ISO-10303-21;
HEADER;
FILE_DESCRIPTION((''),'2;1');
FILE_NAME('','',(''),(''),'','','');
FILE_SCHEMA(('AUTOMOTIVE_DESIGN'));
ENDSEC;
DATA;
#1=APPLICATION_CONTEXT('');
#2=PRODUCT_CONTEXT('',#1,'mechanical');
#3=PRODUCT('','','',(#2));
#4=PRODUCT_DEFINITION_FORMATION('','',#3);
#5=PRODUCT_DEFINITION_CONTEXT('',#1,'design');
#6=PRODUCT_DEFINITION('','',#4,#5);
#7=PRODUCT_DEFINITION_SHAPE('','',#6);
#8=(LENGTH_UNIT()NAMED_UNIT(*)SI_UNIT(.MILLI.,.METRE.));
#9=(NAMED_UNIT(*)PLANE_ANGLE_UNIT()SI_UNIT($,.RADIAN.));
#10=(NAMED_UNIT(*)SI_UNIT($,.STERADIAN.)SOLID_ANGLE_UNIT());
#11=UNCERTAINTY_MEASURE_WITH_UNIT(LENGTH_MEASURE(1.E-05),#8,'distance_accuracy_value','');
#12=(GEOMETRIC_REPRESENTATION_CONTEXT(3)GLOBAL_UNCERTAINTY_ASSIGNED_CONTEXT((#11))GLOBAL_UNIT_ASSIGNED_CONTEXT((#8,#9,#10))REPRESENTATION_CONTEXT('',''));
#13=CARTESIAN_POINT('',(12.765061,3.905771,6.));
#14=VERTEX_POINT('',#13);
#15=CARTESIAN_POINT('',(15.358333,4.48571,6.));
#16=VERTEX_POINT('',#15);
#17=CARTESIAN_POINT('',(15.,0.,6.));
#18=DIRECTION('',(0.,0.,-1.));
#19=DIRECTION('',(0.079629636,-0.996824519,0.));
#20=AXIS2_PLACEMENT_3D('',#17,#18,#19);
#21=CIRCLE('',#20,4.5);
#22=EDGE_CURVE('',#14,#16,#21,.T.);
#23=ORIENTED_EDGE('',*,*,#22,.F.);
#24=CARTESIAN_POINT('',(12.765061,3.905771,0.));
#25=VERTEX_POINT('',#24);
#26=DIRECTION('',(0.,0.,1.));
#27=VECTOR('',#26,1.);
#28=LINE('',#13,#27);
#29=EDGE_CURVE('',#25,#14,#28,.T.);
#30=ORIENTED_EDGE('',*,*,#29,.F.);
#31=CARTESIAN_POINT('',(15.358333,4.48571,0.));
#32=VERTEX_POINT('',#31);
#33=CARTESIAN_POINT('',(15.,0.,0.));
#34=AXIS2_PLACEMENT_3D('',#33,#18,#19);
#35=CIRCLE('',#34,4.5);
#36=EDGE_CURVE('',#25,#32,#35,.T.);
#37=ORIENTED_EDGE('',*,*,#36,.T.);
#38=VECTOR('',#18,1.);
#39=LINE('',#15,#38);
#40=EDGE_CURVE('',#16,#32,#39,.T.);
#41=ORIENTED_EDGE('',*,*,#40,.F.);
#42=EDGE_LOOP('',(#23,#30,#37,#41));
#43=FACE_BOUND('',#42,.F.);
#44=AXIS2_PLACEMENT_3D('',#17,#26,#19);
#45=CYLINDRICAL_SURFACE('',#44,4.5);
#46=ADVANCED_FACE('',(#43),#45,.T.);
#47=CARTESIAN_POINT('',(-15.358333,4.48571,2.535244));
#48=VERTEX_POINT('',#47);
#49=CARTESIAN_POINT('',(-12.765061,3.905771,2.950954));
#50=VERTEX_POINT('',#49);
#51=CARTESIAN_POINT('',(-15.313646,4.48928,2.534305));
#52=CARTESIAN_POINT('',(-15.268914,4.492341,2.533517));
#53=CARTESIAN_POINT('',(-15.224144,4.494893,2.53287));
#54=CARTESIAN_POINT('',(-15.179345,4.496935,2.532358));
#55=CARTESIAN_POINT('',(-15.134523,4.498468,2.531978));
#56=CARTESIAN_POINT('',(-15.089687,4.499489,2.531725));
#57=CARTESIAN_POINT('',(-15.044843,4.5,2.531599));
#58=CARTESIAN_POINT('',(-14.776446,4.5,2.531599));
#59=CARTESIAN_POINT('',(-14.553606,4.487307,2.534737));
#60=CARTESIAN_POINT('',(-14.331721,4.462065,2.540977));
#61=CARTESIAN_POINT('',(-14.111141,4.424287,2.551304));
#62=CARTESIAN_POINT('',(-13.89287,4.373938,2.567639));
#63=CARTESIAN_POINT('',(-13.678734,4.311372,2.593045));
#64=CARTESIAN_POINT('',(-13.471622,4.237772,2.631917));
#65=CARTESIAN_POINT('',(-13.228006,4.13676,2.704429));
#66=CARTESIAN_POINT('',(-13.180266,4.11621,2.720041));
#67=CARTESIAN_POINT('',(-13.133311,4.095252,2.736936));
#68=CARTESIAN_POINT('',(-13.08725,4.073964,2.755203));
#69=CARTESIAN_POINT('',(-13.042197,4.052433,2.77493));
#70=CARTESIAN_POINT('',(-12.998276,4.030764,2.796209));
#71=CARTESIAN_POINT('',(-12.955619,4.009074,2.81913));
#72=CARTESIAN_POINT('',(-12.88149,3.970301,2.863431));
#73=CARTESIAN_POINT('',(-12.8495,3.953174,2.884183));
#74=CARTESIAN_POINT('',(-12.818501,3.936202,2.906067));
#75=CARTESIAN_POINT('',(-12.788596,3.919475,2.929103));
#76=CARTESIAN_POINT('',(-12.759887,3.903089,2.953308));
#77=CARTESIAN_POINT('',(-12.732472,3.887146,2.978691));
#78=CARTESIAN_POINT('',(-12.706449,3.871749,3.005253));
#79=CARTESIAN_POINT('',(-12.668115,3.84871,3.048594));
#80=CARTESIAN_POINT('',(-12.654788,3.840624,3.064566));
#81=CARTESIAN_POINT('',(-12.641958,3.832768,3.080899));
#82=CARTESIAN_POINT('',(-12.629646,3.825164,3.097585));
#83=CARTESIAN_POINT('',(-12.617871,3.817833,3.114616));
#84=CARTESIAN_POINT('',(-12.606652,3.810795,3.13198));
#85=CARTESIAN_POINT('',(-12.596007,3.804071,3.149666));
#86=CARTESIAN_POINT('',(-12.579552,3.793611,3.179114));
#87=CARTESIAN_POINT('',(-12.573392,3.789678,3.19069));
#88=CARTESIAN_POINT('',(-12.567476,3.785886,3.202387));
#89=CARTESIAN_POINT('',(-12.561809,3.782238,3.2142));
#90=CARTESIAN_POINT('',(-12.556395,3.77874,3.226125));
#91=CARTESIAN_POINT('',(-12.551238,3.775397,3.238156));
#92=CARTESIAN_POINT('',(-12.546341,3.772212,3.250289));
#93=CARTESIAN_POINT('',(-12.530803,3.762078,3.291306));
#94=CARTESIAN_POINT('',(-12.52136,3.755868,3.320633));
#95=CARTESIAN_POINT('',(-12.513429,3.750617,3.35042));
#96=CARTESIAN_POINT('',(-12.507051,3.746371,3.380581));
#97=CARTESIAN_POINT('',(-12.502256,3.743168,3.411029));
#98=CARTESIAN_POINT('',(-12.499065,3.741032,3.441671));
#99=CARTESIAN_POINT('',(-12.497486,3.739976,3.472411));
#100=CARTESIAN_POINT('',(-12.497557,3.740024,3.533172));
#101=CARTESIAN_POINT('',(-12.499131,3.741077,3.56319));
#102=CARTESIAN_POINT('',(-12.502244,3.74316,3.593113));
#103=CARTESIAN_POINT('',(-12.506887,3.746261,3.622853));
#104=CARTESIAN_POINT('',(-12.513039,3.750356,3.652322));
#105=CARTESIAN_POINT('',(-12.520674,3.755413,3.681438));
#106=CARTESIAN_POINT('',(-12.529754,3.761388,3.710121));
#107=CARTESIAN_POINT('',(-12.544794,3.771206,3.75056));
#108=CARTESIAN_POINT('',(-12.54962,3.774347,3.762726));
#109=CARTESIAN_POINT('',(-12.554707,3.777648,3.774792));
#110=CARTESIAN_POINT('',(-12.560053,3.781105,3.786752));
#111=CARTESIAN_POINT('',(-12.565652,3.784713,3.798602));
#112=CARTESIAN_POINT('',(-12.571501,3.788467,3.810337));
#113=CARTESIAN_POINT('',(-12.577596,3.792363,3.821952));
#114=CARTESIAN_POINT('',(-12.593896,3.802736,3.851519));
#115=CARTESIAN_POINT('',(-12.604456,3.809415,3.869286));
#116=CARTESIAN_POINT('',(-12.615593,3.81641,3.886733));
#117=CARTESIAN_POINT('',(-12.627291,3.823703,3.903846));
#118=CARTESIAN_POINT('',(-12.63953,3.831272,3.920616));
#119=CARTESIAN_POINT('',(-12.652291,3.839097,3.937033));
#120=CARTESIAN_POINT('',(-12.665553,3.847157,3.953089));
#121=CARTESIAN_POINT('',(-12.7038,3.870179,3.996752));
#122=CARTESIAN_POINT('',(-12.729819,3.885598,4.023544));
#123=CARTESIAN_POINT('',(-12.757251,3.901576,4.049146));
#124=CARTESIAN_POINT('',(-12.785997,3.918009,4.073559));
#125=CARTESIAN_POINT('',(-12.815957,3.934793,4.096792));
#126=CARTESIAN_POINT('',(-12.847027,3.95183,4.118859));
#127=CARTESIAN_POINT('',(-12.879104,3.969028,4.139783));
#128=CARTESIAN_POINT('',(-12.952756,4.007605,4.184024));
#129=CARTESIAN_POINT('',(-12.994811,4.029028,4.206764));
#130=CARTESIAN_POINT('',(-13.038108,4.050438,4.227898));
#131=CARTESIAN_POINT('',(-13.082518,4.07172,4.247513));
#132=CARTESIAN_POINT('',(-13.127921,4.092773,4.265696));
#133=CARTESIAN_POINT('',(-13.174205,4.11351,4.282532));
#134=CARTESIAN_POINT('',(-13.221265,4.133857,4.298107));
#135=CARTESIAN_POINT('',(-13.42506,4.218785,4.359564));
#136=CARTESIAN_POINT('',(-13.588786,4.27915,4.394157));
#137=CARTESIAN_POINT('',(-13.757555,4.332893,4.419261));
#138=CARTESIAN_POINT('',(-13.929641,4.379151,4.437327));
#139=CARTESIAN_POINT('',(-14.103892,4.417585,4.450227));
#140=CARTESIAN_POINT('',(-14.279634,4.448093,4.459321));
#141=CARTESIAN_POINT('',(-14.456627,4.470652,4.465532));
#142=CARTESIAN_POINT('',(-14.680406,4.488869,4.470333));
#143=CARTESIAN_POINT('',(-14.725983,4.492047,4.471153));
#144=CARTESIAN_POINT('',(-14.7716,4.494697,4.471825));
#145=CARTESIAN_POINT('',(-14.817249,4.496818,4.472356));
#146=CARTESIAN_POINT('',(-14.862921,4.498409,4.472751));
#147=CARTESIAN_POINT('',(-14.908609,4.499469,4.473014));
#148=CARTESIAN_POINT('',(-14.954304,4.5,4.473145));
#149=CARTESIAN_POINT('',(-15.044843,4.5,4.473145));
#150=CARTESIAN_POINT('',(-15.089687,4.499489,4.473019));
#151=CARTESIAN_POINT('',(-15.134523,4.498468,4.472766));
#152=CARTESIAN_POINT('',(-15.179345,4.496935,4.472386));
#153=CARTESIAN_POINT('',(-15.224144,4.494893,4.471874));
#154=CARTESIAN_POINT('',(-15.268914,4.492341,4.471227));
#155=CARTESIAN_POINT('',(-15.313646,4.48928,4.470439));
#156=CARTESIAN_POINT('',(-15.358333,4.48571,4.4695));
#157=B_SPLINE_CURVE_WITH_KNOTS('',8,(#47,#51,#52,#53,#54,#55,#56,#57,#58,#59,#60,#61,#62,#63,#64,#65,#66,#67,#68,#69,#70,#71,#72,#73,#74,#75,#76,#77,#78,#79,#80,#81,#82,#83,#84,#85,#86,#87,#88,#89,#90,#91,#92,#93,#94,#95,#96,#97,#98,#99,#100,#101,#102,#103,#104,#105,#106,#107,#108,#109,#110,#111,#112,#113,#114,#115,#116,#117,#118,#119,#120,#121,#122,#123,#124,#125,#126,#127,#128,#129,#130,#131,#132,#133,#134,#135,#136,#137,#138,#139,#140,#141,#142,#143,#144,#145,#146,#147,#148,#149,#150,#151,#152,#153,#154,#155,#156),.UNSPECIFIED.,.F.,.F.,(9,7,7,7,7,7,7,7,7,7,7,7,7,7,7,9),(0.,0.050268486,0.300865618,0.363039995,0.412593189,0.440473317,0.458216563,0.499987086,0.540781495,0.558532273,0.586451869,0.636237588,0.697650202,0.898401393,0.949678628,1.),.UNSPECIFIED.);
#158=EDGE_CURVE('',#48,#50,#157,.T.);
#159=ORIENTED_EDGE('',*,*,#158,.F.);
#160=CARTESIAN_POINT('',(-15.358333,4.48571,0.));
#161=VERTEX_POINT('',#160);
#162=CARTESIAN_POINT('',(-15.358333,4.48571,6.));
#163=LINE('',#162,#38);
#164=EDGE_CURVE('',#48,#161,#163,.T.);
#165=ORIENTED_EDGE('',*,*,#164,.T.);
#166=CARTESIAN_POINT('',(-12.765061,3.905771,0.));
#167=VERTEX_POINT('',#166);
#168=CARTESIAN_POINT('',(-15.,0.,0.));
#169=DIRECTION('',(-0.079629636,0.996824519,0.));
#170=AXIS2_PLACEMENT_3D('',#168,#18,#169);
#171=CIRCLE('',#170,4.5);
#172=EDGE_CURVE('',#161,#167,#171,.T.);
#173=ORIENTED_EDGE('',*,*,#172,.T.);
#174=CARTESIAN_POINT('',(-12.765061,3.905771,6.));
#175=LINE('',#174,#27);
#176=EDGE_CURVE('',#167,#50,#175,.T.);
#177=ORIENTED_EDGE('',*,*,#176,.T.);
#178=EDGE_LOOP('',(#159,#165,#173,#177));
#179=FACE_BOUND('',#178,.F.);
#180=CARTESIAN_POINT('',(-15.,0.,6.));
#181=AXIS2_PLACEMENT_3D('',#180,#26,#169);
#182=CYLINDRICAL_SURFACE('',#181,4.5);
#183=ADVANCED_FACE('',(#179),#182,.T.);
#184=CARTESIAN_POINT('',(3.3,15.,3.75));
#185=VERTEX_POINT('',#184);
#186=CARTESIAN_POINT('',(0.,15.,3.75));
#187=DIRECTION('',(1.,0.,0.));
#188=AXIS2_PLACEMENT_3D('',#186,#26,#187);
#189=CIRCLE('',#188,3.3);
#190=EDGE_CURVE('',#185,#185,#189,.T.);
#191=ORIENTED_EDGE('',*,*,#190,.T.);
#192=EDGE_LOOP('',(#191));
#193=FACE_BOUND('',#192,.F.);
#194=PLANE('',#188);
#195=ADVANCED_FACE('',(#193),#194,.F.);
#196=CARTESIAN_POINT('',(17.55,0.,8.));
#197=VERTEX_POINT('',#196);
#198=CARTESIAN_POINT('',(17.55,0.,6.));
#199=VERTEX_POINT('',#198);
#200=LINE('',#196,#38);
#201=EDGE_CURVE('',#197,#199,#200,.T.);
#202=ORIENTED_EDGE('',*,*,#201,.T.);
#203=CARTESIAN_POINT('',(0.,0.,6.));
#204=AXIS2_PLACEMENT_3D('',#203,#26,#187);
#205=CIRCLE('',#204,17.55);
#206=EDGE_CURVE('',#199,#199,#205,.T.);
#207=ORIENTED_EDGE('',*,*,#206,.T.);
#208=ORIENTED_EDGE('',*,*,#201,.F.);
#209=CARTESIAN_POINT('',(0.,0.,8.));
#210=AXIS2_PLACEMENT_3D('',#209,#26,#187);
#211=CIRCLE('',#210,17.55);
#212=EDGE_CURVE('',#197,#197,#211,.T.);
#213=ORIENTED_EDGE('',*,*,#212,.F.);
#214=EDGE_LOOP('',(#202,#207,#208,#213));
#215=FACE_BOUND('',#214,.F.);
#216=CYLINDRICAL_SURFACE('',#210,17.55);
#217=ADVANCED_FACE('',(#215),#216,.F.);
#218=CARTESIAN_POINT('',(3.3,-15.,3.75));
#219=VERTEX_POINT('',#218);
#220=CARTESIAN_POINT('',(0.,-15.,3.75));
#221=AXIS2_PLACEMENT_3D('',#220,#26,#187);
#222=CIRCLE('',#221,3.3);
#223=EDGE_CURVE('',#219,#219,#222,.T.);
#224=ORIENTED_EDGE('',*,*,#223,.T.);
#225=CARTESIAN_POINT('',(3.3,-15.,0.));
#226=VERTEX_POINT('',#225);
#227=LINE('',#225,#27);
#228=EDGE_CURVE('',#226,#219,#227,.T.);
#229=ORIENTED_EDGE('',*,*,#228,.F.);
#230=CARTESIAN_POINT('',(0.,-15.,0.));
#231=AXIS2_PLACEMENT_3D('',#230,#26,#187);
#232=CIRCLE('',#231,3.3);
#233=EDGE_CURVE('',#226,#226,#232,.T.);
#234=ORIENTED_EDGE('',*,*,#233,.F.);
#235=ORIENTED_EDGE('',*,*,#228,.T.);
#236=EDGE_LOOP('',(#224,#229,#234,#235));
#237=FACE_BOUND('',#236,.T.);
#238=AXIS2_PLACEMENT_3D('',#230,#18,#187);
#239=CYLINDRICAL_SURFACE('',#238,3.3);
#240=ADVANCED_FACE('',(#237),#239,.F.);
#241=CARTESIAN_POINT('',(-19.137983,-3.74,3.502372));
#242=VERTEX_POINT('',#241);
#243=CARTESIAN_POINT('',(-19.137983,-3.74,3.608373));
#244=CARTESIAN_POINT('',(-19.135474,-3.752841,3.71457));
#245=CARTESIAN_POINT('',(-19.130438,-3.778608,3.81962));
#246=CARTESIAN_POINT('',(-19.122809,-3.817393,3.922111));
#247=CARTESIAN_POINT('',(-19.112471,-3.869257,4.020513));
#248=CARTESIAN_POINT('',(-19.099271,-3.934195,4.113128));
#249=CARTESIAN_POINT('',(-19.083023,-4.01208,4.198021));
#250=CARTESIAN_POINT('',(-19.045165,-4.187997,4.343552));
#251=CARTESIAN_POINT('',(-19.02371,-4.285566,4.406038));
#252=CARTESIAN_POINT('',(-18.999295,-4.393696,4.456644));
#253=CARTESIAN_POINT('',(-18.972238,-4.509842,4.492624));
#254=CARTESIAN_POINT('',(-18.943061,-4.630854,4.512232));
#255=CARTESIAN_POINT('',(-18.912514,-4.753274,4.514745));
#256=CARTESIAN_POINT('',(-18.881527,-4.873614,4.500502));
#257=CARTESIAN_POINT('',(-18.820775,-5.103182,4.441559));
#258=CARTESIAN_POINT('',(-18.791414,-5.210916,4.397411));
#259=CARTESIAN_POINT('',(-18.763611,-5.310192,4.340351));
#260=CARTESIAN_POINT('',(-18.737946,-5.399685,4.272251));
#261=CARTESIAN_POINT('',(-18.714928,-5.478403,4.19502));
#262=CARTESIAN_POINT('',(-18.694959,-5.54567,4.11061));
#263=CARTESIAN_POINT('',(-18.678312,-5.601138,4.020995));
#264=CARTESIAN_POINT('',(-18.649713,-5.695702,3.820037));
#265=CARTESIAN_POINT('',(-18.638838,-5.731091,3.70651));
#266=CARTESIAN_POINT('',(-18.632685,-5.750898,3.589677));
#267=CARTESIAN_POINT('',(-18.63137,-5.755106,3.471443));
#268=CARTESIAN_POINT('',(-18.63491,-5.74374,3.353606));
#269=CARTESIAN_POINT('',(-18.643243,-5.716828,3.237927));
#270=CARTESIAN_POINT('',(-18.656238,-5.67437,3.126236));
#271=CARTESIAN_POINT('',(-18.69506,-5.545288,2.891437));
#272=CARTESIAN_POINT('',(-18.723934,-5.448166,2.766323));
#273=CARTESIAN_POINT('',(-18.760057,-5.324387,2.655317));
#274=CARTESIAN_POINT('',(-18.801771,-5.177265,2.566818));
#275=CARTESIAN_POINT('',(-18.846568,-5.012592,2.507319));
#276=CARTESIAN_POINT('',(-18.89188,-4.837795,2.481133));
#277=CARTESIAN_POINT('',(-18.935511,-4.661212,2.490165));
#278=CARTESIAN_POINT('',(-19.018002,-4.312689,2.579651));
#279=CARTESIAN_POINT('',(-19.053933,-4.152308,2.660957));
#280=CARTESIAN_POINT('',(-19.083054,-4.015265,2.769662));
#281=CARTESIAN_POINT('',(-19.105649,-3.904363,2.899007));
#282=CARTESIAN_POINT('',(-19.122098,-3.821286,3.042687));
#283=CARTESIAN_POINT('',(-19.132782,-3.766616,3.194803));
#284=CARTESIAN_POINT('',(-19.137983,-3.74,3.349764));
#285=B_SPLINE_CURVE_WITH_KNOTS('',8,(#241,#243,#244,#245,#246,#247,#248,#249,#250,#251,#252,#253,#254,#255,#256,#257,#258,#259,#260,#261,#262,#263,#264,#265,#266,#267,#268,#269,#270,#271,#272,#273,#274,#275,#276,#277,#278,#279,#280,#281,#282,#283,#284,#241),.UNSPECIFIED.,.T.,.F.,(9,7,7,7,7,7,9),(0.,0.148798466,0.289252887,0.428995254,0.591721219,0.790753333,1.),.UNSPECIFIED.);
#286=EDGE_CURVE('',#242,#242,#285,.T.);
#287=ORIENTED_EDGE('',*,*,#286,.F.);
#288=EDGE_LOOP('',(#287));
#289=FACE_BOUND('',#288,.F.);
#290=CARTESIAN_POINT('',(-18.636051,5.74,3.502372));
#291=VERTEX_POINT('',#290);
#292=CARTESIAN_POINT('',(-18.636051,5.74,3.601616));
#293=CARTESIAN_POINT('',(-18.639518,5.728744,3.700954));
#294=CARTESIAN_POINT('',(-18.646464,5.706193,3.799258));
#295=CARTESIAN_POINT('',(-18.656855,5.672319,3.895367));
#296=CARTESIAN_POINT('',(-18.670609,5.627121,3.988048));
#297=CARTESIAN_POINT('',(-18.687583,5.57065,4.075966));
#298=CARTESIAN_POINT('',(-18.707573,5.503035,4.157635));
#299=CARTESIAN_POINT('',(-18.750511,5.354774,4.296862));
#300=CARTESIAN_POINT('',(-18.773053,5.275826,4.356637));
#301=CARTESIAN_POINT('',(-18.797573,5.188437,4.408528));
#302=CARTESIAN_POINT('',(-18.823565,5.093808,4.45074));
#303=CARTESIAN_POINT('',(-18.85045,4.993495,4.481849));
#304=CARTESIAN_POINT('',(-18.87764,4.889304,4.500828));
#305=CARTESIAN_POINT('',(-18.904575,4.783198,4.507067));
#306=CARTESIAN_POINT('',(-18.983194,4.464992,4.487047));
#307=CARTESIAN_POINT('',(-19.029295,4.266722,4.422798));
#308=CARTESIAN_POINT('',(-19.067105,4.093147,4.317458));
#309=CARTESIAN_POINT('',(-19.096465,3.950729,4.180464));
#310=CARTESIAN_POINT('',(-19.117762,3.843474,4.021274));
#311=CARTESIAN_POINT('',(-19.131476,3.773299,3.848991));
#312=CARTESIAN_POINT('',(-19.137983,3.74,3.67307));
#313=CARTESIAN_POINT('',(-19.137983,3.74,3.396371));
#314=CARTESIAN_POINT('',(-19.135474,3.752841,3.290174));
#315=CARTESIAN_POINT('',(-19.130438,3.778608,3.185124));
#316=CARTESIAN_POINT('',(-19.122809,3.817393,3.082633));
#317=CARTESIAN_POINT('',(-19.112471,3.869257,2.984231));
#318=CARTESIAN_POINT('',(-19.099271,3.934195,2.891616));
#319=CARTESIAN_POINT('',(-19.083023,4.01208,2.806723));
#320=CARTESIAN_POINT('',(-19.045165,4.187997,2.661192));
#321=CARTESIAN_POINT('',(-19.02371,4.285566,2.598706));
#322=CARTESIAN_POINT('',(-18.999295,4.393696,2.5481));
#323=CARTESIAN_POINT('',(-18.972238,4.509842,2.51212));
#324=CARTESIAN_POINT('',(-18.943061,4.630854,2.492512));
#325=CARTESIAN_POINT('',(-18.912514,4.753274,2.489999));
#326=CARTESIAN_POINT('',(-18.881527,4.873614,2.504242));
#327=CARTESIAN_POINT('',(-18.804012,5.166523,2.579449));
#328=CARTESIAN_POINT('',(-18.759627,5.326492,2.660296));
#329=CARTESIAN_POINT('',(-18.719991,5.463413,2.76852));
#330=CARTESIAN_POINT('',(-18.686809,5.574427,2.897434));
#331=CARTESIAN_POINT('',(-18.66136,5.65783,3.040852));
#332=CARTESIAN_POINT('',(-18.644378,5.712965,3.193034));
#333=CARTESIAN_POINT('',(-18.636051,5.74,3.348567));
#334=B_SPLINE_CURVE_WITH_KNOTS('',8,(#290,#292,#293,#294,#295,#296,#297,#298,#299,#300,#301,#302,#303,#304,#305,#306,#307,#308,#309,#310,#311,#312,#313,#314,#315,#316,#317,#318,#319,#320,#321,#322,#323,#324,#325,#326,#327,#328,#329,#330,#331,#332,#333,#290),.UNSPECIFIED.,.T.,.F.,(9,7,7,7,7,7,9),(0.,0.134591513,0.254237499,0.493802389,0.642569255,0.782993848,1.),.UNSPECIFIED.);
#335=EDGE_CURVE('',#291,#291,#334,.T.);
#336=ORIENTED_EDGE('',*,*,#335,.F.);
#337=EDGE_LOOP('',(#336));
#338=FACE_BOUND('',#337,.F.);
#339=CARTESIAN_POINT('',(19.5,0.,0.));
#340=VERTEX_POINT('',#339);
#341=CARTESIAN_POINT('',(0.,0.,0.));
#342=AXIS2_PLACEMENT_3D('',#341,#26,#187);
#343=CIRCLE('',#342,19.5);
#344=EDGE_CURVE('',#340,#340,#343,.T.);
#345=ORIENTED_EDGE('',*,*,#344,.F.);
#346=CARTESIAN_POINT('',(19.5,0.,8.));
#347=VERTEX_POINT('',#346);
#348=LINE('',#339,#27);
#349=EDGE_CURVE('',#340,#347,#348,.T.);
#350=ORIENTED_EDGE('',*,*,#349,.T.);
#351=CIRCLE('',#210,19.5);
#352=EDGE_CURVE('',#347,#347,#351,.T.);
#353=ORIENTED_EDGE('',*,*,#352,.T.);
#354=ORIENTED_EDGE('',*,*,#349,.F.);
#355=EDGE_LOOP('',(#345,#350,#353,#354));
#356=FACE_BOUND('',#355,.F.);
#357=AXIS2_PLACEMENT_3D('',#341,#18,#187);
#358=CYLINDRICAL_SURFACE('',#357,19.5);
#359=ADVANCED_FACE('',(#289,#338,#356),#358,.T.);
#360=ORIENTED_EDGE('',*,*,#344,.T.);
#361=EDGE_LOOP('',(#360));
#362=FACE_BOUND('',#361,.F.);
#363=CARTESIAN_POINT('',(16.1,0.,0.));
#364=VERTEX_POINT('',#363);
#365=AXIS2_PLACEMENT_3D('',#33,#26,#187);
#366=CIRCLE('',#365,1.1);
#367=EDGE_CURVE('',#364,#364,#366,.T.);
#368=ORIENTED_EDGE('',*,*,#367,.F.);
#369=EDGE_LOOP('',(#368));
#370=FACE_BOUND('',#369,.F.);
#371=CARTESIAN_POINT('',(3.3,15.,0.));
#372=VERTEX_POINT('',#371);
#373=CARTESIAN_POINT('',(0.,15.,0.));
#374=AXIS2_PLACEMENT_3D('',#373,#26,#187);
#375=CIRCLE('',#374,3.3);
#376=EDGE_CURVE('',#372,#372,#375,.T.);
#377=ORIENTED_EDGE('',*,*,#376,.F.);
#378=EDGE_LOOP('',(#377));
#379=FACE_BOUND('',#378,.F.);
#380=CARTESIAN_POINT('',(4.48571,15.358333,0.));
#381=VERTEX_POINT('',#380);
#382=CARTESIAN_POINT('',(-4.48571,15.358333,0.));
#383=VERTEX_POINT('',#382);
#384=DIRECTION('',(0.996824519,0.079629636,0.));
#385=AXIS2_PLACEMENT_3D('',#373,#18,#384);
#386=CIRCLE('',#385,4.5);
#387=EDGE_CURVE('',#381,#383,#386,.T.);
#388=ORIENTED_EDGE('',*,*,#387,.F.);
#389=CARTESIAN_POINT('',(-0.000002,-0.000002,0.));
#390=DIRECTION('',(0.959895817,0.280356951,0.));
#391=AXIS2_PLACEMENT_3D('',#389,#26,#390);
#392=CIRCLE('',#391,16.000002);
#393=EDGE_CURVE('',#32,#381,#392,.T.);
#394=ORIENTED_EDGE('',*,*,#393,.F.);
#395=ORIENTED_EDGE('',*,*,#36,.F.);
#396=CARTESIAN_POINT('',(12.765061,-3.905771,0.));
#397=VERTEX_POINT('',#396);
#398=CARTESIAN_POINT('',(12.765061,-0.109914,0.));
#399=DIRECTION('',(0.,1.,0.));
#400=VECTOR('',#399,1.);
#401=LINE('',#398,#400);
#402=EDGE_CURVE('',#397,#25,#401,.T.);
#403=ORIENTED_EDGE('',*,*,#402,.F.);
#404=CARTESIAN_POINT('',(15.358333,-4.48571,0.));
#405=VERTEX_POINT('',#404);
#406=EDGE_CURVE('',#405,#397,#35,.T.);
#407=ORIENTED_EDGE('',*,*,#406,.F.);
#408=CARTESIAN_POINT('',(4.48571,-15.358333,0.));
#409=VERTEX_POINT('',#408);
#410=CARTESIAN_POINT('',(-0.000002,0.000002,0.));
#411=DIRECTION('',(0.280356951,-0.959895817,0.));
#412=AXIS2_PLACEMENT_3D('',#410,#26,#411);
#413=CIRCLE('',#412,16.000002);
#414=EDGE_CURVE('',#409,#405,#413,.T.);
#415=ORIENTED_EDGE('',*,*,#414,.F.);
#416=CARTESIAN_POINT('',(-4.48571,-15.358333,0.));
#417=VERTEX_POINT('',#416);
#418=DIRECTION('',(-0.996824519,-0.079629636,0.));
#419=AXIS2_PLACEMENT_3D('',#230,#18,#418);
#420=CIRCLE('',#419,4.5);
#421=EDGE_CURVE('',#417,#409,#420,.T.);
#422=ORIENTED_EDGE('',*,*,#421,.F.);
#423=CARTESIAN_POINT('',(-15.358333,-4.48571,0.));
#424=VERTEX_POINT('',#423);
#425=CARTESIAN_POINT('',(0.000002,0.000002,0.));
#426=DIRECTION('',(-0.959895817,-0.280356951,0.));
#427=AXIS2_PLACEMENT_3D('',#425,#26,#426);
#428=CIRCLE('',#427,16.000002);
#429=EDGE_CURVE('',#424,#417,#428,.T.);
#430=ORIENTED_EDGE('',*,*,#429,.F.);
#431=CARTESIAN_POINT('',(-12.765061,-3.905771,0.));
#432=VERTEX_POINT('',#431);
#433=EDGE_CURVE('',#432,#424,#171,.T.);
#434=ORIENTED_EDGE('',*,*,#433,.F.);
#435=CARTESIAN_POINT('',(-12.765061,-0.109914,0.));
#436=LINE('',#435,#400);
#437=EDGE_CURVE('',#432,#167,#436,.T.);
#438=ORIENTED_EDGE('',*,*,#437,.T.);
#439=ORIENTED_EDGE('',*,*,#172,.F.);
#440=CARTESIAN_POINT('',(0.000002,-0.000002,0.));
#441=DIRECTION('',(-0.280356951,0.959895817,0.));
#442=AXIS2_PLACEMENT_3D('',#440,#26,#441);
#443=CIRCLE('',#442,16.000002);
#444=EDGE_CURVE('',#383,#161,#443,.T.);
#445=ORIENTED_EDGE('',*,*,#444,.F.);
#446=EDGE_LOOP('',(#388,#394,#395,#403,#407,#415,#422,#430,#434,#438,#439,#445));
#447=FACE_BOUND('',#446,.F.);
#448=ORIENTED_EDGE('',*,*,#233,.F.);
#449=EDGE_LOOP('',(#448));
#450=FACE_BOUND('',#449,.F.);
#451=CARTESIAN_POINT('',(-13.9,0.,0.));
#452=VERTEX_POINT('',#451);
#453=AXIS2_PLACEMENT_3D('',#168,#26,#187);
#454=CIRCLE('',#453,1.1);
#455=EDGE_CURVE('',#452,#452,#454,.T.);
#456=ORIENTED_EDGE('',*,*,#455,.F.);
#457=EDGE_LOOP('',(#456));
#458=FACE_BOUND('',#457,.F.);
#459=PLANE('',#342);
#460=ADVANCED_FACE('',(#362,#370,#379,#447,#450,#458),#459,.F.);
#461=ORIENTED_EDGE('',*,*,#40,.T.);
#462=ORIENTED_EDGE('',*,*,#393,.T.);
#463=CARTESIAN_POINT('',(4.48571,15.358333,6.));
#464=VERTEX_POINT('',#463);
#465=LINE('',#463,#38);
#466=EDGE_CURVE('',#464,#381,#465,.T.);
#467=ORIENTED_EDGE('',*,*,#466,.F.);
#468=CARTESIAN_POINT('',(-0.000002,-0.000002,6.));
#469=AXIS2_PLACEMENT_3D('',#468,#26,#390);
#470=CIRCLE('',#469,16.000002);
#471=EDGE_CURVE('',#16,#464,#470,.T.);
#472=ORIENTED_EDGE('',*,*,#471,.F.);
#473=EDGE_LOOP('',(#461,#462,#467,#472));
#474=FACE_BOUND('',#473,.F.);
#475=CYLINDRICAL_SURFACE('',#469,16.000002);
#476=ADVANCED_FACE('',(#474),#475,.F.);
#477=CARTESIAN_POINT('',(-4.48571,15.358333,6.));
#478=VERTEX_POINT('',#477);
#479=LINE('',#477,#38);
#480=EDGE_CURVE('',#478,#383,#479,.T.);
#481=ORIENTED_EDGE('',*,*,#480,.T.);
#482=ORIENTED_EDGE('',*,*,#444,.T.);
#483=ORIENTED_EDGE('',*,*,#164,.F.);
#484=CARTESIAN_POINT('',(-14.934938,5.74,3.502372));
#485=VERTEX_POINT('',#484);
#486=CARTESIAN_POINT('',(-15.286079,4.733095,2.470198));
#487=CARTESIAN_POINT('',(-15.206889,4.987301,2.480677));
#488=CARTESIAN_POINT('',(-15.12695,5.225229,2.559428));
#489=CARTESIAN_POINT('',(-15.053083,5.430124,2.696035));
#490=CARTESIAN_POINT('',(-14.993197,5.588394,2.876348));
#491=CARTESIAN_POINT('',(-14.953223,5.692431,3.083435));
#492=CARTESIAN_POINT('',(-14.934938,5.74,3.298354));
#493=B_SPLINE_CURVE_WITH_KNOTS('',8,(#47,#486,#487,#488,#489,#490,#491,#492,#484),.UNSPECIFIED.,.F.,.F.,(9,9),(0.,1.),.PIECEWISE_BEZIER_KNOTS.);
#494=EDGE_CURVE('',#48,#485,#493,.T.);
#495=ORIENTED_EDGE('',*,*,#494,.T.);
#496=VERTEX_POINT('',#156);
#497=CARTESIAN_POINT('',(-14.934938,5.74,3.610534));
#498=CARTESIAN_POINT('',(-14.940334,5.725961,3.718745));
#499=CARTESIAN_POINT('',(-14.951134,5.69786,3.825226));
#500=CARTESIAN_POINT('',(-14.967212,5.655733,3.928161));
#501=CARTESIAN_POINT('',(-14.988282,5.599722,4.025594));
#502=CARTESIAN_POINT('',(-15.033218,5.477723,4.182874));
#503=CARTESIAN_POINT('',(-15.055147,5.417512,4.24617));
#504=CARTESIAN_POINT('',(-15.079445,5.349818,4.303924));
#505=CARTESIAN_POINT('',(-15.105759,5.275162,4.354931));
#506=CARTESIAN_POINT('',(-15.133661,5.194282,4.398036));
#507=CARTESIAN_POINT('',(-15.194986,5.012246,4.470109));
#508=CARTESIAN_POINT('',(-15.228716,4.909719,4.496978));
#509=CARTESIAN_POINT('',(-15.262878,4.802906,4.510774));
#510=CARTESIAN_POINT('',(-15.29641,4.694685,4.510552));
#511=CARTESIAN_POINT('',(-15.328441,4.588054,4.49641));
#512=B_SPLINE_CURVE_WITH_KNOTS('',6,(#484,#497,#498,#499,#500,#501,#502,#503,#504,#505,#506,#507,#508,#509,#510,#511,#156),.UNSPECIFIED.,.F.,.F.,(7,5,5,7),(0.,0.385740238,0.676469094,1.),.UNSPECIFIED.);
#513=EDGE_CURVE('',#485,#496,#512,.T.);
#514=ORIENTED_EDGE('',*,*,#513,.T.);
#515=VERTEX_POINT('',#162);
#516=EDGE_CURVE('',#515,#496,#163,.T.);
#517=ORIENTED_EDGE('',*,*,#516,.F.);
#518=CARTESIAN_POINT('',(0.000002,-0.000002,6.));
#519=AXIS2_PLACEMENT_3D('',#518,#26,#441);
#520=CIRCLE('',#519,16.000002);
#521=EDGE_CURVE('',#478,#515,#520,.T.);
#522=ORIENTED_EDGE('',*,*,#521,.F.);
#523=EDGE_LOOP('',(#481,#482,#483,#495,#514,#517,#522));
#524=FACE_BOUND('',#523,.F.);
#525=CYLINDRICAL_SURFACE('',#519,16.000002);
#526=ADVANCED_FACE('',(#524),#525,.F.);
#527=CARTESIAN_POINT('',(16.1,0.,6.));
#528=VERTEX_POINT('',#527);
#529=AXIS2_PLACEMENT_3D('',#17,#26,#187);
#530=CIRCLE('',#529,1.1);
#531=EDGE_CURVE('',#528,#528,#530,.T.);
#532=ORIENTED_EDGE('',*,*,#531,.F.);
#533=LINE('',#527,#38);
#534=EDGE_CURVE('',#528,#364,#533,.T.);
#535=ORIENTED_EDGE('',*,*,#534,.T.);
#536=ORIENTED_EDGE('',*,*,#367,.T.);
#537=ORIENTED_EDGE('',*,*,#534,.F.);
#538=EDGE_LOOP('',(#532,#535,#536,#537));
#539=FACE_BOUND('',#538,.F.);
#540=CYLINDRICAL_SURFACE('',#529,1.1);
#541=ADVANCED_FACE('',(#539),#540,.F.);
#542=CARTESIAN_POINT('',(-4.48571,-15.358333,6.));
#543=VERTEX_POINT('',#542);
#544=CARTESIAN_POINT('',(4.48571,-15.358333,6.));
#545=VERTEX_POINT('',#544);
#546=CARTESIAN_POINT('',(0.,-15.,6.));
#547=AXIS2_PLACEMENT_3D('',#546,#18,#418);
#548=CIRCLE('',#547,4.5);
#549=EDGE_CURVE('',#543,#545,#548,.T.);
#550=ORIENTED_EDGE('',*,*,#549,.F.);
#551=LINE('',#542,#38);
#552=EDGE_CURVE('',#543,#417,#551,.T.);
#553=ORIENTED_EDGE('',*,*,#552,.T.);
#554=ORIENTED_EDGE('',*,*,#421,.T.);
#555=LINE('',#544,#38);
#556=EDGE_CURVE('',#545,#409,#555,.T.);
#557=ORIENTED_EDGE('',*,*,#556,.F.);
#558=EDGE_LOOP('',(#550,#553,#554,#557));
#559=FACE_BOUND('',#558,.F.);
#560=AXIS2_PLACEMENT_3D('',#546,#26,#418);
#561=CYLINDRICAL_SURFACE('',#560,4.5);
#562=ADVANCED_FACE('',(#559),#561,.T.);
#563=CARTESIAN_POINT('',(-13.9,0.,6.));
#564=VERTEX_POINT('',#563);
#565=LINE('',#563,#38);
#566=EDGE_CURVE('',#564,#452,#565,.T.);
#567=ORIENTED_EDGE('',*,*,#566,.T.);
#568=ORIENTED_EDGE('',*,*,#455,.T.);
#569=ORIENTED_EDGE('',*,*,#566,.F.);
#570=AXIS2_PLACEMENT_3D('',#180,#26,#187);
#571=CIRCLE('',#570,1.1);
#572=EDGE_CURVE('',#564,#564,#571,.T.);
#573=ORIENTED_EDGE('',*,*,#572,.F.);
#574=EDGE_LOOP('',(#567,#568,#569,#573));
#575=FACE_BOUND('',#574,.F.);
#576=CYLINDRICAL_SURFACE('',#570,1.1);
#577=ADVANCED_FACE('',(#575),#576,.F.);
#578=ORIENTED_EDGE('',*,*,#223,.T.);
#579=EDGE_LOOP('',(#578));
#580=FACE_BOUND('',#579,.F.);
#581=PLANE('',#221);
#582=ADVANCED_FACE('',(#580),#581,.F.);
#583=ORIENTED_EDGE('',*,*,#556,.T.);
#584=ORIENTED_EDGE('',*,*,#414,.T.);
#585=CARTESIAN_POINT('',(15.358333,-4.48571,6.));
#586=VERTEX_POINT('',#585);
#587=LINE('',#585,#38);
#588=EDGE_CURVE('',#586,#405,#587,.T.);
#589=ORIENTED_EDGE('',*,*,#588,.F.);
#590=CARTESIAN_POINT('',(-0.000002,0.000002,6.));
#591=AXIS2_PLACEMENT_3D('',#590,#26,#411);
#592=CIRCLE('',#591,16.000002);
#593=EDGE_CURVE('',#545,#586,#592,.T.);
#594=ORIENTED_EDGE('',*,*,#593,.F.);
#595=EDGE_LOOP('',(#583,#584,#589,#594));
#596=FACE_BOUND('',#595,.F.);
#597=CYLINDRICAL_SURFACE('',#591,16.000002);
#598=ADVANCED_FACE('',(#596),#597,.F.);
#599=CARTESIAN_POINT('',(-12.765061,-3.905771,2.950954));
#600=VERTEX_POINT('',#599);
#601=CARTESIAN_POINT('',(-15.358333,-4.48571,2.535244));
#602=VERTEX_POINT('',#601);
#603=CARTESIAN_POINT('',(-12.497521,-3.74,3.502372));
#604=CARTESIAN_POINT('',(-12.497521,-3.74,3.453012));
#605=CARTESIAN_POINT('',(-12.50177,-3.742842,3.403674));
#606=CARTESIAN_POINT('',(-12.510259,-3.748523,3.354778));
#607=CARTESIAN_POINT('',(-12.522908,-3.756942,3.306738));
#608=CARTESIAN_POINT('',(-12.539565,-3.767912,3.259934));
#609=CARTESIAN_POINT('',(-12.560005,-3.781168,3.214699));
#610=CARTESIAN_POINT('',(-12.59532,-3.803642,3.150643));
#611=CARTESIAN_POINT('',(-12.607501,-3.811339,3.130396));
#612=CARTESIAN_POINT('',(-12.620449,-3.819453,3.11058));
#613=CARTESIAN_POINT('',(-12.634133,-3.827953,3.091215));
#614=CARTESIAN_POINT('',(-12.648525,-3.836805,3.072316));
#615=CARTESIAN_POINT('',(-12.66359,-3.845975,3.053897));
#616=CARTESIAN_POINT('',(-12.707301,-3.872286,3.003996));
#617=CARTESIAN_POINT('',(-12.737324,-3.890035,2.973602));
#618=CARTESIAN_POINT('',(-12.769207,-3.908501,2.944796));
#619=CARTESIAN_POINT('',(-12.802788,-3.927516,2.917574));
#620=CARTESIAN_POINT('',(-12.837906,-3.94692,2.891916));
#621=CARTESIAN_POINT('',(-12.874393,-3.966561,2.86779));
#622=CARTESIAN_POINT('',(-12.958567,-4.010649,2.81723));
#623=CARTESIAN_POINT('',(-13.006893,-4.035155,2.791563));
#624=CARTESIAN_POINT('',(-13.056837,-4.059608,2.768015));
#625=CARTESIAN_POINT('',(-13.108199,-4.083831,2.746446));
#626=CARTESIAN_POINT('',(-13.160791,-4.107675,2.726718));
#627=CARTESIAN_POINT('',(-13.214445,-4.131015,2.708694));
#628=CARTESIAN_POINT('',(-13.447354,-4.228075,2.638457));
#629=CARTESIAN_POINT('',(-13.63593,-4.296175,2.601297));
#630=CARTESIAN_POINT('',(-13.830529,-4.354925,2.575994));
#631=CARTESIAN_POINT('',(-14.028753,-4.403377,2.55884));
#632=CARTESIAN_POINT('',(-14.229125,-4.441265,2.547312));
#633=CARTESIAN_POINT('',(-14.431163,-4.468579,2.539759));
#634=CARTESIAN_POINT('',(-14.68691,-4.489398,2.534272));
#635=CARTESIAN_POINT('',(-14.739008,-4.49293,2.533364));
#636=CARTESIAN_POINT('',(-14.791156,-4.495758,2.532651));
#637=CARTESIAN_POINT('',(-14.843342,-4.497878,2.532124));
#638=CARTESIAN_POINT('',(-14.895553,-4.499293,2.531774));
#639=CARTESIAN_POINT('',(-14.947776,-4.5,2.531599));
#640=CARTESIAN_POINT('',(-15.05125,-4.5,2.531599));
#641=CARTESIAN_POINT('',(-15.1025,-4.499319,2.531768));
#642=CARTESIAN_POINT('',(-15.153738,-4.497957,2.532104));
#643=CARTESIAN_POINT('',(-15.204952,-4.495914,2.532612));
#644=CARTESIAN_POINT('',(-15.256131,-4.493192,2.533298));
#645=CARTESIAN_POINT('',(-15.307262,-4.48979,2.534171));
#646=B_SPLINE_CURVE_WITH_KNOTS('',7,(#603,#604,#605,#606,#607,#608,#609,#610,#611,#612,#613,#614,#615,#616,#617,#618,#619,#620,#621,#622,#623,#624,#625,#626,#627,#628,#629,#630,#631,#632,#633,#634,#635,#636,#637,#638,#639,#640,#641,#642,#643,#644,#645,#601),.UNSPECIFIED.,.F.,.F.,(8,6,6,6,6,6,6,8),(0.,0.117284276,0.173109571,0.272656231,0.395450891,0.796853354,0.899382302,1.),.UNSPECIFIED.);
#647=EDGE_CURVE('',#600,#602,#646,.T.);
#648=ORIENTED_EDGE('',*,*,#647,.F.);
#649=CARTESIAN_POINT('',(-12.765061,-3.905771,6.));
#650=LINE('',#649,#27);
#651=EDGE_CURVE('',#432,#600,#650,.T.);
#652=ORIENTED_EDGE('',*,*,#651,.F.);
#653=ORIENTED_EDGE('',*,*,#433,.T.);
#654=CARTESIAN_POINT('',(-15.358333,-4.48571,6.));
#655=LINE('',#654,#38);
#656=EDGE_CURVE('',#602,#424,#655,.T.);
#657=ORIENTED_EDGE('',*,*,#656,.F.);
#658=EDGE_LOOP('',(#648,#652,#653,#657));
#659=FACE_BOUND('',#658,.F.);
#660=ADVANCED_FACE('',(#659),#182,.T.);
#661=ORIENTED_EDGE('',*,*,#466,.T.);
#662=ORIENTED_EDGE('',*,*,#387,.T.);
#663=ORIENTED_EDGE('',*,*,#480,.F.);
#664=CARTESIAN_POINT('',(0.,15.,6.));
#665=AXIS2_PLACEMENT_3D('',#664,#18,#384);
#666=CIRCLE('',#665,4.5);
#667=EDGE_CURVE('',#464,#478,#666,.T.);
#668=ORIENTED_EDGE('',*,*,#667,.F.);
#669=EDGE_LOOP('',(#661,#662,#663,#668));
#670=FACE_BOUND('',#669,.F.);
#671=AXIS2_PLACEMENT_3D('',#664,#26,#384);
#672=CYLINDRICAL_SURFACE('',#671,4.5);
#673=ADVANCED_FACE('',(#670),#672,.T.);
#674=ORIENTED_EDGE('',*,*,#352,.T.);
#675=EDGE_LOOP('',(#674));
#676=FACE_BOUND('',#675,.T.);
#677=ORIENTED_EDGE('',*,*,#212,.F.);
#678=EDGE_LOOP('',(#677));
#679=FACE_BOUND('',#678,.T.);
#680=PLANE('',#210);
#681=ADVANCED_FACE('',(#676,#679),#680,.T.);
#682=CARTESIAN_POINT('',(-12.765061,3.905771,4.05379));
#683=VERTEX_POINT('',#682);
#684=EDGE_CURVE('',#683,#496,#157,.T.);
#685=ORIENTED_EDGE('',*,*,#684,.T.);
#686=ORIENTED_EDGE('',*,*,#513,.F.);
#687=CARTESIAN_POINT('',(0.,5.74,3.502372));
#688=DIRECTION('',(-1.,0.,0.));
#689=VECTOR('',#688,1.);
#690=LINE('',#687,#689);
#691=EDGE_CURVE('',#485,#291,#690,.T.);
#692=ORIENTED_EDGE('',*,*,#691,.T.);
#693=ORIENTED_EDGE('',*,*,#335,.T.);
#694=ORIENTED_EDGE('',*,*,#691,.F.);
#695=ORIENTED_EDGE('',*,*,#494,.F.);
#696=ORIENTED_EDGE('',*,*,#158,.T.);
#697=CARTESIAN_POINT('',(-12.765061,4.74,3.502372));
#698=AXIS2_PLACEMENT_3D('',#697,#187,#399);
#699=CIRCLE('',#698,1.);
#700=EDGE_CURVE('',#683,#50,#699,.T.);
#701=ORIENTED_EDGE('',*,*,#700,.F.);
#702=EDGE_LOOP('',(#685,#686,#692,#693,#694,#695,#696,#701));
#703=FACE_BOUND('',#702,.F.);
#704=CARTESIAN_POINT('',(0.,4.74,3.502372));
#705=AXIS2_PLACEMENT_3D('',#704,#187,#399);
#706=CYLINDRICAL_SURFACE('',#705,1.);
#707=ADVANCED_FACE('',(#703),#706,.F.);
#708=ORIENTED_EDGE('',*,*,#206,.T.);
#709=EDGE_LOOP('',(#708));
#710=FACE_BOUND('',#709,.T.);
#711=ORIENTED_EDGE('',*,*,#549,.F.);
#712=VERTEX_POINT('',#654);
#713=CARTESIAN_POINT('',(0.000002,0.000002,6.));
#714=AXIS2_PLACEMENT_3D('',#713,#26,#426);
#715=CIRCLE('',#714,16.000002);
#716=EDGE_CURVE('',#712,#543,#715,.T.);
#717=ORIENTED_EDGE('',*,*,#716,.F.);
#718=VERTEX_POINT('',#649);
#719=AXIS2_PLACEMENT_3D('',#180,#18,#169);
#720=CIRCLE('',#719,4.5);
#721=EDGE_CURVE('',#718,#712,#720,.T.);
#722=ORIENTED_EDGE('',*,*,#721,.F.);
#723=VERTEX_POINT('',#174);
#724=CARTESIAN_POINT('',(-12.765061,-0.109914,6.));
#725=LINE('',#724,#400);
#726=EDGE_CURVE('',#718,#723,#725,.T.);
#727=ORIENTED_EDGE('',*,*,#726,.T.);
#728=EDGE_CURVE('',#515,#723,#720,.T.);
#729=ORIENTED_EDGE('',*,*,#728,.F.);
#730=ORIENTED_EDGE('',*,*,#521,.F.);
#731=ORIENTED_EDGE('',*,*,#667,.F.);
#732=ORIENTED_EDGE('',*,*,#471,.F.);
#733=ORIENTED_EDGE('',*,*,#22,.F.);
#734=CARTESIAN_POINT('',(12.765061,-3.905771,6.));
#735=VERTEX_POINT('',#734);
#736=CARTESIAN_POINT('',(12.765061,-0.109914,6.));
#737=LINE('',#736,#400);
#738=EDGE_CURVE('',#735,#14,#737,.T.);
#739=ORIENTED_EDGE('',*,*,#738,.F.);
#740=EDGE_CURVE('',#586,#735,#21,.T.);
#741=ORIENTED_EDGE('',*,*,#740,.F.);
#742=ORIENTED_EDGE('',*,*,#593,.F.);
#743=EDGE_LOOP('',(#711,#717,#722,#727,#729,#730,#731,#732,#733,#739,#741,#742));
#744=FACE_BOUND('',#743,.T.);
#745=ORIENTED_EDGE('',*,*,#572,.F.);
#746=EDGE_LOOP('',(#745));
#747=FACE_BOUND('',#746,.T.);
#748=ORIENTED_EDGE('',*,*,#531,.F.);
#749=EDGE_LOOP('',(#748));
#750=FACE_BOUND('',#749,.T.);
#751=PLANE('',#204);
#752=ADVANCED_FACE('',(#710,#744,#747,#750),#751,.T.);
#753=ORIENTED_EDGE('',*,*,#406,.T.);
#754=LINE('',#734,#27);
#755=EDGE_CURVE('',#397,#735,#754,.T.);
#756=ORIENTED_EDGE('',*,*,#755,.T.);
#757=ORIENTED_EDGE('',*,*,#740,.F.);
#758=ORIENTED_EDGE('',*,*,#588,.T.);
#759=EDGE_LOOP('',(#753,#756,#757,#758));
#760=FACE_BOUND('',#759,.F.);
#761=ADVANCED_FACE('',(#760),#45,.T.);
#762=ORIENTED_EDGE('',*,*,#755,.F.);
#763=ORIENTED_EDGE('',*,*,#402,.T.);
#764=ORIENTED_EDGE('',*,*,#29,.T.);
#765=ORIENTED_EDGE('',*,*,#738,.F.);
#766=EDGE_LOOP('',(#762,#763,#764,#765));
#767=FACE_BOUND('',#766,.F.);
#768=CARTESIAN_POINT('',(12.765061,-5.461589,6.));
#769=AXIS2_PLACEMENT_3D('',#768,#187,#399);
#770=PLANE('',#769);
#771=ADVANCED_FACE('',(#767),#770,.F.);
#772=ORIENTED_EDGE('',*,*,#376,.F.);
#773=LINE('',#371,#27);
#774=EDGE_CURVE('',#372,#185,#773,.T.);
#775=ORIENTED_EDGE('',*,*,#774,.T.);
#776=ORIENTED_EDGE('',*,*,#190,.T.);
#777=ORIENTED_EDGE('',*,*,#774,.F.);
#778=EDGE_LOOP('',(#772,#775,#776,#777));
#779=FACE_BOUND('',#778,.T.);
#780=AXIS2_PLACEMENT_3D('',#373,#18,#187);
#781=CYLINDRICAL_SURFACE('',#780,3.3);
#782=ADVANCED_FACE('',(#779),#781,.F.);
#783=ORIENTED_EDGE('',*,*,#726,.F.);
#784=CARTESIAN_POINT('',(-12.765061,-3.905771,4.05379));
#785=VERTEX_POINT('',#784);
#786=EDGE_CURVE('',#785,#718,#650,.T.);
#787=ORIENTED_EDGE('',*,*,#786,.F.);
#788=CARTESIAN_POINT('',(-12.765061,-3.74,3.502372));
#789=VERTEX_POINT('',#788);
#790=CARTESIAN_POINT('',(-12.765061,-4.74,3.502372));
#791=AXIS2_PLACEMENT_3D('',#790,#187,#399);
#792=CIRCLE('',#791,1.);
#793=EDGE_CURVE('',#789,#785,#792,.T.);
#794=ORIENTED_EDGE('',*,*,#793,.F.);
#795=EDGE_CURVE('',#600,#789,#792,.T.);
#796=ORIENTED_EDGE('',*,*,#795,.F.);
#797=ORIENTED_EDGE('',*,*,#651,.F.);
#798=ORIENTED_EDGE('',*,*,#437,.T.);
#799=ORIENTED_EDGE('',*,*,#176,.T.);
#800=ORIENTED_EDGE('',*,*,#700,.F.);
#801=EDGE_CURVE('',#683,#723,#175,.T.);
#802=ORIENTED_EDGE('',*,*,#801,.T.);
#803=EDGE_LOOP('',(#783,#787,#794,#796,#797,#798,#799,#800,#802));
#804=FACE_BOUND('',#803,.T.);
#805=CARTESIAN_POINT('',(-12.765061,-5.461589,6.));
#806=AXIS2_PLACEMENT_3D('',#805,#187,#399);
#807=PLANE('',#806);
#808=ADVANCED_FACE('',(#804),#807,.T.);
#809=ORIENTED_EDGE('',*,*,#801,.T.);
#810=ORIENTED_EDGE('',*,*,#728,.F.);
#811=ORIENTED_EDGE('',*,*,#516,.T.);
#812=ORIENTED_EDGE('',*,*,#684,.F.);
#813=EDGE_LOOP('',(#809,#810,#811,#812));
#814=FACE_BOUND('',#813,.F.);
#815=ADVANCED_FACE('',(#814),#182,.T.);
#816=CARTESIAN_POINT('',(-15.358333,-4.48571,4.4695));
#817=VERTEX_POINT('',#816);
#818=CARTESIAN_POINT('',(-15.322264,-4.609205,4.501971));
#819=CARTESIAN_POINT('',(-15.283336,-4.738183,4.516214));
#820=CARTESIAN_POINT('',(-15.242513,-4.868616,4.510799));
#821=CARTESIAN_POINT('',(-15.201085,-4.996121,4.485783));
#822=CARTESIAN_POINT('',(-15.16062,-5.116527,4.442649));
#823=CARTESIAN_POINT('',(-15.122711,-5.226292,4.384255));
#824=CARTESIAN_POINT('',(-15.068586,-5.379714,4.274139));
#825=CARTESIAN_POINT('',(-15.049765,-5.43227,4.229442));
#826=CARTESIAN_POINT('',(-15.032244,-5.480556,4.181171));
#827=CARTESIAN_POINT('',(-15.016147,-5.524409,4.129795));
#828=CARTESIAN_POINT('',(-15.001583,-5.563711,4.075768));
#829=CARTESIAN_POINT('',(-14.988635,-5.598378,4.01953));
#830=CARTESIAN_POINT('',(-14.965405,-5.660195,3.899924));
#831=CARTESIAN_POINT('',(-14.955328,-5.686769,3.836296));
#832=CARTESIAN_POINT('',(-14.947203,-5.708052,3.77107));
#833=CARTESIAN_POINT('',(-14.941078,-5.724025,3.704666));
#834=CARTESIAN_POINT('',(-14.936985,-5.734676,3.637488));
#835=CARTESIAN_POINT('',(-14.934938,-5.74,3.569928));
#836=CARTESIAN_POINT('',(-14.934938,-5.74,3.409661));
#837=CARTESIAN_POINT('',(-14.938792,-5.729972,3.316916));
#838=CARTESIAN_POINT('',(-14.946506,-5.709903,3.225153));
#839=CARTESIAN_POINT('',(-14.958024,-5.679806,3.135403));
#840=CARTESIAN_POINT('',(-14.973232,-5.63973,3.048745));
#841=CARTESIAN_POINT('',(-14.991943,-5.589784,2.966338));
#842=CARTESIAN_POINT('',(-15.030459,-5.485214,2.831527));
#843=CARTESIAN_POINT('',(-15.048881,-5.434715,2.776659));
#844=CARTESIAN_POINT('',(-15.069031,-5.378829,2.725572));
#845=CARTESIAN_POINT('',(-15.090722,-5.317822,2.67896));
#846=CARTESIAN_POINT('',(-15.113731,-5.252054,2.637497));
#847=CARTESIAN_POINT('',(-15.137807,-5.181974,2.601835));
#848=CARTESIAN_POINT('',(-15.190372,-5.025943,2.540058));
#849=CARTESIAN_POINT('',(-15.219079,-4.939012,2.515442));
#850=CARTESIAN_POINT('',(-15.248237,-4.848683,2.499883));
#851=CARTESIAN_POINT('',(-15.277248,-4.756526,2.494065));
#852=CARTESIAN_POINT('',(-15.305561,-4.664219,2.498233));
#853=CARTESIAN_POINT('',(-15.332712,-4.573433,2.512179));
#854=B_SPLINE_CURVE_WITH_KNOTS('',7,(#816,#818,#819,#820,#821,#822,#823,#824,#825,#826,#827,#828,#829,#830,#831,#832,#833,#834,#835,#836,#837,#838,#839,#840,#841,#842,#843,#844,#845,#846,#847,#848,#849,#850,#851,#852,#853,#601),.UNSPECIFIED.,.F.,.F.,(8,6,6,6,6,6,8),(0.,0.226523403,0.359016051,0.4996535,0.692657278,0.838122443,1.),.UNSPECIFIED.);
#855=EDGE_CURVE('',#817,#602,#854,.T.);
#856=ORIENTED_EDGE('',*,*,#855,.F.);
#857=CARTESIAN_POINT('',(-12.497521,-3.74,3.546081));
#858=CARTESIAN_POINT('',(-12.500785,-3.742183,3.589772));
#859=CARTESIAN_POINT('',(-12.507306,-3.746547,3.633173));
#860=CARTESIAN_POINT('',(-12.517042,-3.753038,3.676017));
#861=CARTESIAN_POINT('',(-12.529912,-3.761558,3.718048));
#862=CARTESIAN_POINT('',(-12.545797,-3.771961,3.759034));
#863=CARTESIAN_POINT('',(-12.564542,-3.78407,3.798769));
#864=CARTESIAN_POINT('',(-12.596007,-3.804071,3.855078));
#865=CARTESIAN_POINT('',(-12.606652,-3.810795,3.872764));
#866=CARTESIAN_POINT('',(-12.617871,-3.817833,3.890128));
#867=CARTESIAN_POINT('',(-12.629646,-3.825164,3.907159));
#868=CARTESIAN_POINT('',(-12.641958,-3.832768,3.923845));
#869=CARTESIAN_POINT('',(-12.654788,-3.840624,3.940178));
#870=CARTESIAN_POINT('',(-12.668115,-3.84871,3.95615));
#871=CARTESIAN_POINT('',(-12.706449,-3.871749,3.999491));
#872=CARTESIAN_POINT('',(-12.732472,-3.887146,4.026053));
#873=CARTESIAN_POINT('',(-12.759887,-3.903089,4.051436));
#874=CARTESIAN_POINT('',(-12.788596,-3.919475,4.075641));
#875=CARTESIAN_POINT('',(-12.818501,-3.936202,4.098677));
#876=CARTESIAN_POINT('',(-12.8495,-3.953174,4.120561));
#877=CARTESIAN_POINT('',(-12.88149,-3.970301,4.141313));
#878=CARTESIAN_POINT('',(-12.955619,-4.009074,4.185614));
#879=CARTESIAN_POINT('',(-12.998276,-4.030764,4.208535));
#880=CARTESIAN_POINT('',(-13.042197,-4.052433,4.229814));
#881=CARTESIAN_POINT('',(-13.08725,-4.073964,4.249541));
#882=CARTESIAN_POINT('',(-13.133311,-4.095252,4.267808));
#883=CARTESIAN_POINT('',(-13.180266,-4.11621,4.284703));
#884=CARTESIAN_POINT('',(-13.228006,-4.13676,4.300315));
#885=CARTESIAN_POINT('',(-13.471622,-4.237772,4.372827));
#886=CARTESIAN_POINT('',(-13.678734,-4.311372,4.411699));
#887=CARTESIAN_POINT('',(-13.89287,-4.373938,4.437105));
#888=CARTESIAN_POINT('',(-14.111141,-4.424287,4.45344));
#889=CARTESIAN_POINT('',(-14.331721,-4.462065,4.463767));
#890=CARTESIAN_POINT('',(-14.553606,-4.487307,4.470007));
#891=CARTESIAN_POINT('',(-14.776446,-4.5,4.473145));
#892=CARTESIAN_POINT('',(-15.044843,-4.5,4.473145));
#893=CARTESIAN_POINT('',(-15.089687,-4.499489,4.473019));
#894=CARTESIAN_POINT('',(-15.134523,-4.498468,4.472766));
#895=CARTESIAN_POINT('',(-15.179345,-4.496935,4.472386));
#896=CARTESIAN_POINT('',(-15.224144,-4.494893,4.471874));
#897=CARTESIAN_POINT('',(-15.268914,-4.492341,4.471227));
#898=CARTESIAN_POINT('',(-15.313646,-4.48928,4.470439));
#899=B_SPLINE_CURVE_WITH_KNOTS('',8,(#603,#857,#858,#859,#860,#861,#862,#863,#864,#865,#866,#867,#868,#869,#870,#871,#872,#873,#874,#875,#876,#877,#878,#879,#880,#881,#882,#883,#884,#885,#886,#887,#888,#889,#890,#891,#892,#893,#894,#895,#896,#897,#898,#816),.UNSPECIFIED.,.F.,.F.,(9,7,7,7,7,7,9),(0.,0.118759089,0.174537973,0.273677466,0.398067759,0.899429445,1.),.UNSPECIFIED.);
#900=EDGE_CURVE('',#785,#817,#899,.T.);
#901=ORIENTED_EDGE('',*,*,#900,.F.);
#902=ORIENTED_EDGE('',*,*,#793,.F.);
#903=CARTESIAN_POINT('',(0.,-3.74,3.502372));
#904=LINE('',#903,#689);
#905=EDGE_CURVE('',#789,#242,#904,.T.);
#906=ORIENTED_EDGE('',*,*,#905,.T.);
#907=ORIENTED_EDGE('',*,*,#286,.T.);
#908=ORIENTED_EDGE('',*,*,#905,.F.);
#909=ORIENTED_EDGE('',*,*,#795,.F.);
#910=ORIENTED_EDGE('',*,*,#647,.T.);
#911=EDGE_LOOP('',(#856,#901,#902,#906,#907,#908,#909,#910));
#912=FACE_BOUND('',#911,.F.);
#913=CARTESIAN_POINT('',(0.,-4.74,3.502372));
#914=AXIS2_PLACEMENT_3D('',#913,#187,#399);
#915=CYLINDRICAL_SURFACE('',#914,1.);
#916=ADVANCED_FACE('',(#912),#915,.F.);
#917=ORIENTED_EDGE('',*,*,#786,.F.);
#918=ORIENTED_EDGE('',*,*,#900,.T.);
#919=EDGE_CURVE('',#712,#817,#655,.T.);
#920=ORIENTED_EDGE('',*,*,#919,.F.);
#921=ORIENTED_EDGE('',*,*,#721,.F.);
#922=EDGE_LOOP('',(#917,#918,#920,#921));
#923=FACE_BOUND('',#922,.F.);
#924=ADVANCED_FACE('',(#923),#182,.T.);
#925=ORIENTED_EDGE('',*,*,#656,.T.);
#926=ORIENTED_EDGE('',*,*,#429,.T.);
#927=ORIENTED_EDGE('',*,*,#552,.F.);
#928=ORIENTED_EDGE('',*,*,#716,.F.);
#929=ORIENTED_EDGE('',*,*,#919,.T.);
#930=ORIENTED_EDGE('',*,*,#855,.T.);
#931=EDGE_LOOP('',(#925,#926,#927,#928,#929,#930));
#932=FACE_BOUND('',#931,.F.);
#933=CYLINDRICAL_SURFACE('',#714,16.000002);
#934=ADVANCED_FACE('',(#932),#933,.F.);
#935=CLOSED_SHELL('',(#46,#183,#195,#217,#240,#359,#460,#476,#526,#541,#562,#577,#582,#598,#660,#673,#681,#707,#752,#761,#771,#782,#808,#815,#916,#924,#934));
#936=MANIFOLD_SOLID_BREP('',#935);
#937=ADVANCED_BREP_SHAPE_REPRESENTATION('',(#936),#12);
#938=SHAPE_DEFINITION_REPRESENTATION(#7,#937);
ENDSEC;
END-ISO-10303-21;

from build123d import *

# Parameters (mm, degrees)
F0_R      = 19.5
F1_DEPTH  = 8
F2_R      = 17.55
F3_DEPTH  = 2
F5_DEPTH  = 6
F6_R      = 1.1
F7_DEPTH  = 6
F8_R      = 3.3
F9_DEPTH  = 3.75
F10_R     = 1
F11_DEPTH = 25
F12_W     = 3.246098
F12_H     = 10.70335
F13_DEPTH = 6


with BuildPart() as f1:
    # F0 (on Top) → F1 (new body)
    with BuildSketch(Plane.XY):
        Circle(F0_R)
    extrude(amount=F1_DEPTH)

    # F2 (on face) → F3 (cut)
    with BuildSketch(Plane.XY.offset(8)):
        Circle(F2_R)
    extrude(amount=-F3_DEPTH, mode=Mode.SUBTRACT)

    # F4 (on face) → F5 (cut)
    with BuildSketch(Plane.XY.offset(6)):
        with BuildLine():
            ThreePointArc((15.358333, -4.48571), (10.5, 0), (15.358333, 4.48571))
            ThreePointArc((15.358333, 4.48571), (11.313708, 11.313708), (4.48571, 15.358333))
            ThreePointArc((4.48571, 15.358333), (0, 10.5), (-4.48571, 15.358333))
            ThreePointArc((-4.48571, 15.358333), (-11.313708, 11.313708), (-15.358333, 4.48571))
            ThreePointArc((-15.358333, 4.48571), (-10.5, 0), (-15.358333, -4.48571))
            ThreePointArc((-15.358333, -4.48571), (-11.313708, -11.313708), (-4.48571, -15.358333))
            ThreePointArc((-4.48571, -15.358333), (0, -10.5), (4.48571, -15.358333))
            ThreePointArc((4.48571, -15.358333), (11.313708, -11.313708), (15.358333, -4.48571))
        make_face()
    extrude(amount=-F5_DEPTH, mode=Mode.SUBTRACT)

    # F6 (on face) → F7 (cut)
    with BuildSketch(Plane.XY.offset(6)):
        with Locations((-15, 0)):
            Circle(F6_R)
        with Locations((15, 0)):
            Circle(F6_R)
    extrude(amount=-F7_DEPTH, mode=Mode.SUBTRACT)

    # F8 (on Top) → F9 (cut)
    with BuildSketch(Plane.XY):
        with Locations((0, 15)):
            Circle(F8_R)
        with Locations((0, -15)):
            Circle(F8_R)
    extrude(amount=F9_DEPTH, mode=Mode.SUBTRACT)

    # F10 (on Right) → F11 (cut)
    with BuildSketch(Plane.YZ):
        with Locations((-4.74, 3.502372)):
            Circle(F10_R)
        with Locations((4.74, 3.502372)):
            Circle(F10_R)
    extrude(amount=-F11_DEPTH, mode=Mode.SUBTRACT)

    # F12 (on face) → F13 (cut)
    with BuildSketch(Plane.XY.offset(6)):
        with Locations((-11.142012, -0.109914)):
            Rectangle(F12_W, F12_H)
        with Locations((11.142012, -0.109914)):
            Rectangle(F12_W, F12_H)
    extrude(amount=-F13_DEPTH, mode=Mode.SUBTRACT)


solid = f1.part
